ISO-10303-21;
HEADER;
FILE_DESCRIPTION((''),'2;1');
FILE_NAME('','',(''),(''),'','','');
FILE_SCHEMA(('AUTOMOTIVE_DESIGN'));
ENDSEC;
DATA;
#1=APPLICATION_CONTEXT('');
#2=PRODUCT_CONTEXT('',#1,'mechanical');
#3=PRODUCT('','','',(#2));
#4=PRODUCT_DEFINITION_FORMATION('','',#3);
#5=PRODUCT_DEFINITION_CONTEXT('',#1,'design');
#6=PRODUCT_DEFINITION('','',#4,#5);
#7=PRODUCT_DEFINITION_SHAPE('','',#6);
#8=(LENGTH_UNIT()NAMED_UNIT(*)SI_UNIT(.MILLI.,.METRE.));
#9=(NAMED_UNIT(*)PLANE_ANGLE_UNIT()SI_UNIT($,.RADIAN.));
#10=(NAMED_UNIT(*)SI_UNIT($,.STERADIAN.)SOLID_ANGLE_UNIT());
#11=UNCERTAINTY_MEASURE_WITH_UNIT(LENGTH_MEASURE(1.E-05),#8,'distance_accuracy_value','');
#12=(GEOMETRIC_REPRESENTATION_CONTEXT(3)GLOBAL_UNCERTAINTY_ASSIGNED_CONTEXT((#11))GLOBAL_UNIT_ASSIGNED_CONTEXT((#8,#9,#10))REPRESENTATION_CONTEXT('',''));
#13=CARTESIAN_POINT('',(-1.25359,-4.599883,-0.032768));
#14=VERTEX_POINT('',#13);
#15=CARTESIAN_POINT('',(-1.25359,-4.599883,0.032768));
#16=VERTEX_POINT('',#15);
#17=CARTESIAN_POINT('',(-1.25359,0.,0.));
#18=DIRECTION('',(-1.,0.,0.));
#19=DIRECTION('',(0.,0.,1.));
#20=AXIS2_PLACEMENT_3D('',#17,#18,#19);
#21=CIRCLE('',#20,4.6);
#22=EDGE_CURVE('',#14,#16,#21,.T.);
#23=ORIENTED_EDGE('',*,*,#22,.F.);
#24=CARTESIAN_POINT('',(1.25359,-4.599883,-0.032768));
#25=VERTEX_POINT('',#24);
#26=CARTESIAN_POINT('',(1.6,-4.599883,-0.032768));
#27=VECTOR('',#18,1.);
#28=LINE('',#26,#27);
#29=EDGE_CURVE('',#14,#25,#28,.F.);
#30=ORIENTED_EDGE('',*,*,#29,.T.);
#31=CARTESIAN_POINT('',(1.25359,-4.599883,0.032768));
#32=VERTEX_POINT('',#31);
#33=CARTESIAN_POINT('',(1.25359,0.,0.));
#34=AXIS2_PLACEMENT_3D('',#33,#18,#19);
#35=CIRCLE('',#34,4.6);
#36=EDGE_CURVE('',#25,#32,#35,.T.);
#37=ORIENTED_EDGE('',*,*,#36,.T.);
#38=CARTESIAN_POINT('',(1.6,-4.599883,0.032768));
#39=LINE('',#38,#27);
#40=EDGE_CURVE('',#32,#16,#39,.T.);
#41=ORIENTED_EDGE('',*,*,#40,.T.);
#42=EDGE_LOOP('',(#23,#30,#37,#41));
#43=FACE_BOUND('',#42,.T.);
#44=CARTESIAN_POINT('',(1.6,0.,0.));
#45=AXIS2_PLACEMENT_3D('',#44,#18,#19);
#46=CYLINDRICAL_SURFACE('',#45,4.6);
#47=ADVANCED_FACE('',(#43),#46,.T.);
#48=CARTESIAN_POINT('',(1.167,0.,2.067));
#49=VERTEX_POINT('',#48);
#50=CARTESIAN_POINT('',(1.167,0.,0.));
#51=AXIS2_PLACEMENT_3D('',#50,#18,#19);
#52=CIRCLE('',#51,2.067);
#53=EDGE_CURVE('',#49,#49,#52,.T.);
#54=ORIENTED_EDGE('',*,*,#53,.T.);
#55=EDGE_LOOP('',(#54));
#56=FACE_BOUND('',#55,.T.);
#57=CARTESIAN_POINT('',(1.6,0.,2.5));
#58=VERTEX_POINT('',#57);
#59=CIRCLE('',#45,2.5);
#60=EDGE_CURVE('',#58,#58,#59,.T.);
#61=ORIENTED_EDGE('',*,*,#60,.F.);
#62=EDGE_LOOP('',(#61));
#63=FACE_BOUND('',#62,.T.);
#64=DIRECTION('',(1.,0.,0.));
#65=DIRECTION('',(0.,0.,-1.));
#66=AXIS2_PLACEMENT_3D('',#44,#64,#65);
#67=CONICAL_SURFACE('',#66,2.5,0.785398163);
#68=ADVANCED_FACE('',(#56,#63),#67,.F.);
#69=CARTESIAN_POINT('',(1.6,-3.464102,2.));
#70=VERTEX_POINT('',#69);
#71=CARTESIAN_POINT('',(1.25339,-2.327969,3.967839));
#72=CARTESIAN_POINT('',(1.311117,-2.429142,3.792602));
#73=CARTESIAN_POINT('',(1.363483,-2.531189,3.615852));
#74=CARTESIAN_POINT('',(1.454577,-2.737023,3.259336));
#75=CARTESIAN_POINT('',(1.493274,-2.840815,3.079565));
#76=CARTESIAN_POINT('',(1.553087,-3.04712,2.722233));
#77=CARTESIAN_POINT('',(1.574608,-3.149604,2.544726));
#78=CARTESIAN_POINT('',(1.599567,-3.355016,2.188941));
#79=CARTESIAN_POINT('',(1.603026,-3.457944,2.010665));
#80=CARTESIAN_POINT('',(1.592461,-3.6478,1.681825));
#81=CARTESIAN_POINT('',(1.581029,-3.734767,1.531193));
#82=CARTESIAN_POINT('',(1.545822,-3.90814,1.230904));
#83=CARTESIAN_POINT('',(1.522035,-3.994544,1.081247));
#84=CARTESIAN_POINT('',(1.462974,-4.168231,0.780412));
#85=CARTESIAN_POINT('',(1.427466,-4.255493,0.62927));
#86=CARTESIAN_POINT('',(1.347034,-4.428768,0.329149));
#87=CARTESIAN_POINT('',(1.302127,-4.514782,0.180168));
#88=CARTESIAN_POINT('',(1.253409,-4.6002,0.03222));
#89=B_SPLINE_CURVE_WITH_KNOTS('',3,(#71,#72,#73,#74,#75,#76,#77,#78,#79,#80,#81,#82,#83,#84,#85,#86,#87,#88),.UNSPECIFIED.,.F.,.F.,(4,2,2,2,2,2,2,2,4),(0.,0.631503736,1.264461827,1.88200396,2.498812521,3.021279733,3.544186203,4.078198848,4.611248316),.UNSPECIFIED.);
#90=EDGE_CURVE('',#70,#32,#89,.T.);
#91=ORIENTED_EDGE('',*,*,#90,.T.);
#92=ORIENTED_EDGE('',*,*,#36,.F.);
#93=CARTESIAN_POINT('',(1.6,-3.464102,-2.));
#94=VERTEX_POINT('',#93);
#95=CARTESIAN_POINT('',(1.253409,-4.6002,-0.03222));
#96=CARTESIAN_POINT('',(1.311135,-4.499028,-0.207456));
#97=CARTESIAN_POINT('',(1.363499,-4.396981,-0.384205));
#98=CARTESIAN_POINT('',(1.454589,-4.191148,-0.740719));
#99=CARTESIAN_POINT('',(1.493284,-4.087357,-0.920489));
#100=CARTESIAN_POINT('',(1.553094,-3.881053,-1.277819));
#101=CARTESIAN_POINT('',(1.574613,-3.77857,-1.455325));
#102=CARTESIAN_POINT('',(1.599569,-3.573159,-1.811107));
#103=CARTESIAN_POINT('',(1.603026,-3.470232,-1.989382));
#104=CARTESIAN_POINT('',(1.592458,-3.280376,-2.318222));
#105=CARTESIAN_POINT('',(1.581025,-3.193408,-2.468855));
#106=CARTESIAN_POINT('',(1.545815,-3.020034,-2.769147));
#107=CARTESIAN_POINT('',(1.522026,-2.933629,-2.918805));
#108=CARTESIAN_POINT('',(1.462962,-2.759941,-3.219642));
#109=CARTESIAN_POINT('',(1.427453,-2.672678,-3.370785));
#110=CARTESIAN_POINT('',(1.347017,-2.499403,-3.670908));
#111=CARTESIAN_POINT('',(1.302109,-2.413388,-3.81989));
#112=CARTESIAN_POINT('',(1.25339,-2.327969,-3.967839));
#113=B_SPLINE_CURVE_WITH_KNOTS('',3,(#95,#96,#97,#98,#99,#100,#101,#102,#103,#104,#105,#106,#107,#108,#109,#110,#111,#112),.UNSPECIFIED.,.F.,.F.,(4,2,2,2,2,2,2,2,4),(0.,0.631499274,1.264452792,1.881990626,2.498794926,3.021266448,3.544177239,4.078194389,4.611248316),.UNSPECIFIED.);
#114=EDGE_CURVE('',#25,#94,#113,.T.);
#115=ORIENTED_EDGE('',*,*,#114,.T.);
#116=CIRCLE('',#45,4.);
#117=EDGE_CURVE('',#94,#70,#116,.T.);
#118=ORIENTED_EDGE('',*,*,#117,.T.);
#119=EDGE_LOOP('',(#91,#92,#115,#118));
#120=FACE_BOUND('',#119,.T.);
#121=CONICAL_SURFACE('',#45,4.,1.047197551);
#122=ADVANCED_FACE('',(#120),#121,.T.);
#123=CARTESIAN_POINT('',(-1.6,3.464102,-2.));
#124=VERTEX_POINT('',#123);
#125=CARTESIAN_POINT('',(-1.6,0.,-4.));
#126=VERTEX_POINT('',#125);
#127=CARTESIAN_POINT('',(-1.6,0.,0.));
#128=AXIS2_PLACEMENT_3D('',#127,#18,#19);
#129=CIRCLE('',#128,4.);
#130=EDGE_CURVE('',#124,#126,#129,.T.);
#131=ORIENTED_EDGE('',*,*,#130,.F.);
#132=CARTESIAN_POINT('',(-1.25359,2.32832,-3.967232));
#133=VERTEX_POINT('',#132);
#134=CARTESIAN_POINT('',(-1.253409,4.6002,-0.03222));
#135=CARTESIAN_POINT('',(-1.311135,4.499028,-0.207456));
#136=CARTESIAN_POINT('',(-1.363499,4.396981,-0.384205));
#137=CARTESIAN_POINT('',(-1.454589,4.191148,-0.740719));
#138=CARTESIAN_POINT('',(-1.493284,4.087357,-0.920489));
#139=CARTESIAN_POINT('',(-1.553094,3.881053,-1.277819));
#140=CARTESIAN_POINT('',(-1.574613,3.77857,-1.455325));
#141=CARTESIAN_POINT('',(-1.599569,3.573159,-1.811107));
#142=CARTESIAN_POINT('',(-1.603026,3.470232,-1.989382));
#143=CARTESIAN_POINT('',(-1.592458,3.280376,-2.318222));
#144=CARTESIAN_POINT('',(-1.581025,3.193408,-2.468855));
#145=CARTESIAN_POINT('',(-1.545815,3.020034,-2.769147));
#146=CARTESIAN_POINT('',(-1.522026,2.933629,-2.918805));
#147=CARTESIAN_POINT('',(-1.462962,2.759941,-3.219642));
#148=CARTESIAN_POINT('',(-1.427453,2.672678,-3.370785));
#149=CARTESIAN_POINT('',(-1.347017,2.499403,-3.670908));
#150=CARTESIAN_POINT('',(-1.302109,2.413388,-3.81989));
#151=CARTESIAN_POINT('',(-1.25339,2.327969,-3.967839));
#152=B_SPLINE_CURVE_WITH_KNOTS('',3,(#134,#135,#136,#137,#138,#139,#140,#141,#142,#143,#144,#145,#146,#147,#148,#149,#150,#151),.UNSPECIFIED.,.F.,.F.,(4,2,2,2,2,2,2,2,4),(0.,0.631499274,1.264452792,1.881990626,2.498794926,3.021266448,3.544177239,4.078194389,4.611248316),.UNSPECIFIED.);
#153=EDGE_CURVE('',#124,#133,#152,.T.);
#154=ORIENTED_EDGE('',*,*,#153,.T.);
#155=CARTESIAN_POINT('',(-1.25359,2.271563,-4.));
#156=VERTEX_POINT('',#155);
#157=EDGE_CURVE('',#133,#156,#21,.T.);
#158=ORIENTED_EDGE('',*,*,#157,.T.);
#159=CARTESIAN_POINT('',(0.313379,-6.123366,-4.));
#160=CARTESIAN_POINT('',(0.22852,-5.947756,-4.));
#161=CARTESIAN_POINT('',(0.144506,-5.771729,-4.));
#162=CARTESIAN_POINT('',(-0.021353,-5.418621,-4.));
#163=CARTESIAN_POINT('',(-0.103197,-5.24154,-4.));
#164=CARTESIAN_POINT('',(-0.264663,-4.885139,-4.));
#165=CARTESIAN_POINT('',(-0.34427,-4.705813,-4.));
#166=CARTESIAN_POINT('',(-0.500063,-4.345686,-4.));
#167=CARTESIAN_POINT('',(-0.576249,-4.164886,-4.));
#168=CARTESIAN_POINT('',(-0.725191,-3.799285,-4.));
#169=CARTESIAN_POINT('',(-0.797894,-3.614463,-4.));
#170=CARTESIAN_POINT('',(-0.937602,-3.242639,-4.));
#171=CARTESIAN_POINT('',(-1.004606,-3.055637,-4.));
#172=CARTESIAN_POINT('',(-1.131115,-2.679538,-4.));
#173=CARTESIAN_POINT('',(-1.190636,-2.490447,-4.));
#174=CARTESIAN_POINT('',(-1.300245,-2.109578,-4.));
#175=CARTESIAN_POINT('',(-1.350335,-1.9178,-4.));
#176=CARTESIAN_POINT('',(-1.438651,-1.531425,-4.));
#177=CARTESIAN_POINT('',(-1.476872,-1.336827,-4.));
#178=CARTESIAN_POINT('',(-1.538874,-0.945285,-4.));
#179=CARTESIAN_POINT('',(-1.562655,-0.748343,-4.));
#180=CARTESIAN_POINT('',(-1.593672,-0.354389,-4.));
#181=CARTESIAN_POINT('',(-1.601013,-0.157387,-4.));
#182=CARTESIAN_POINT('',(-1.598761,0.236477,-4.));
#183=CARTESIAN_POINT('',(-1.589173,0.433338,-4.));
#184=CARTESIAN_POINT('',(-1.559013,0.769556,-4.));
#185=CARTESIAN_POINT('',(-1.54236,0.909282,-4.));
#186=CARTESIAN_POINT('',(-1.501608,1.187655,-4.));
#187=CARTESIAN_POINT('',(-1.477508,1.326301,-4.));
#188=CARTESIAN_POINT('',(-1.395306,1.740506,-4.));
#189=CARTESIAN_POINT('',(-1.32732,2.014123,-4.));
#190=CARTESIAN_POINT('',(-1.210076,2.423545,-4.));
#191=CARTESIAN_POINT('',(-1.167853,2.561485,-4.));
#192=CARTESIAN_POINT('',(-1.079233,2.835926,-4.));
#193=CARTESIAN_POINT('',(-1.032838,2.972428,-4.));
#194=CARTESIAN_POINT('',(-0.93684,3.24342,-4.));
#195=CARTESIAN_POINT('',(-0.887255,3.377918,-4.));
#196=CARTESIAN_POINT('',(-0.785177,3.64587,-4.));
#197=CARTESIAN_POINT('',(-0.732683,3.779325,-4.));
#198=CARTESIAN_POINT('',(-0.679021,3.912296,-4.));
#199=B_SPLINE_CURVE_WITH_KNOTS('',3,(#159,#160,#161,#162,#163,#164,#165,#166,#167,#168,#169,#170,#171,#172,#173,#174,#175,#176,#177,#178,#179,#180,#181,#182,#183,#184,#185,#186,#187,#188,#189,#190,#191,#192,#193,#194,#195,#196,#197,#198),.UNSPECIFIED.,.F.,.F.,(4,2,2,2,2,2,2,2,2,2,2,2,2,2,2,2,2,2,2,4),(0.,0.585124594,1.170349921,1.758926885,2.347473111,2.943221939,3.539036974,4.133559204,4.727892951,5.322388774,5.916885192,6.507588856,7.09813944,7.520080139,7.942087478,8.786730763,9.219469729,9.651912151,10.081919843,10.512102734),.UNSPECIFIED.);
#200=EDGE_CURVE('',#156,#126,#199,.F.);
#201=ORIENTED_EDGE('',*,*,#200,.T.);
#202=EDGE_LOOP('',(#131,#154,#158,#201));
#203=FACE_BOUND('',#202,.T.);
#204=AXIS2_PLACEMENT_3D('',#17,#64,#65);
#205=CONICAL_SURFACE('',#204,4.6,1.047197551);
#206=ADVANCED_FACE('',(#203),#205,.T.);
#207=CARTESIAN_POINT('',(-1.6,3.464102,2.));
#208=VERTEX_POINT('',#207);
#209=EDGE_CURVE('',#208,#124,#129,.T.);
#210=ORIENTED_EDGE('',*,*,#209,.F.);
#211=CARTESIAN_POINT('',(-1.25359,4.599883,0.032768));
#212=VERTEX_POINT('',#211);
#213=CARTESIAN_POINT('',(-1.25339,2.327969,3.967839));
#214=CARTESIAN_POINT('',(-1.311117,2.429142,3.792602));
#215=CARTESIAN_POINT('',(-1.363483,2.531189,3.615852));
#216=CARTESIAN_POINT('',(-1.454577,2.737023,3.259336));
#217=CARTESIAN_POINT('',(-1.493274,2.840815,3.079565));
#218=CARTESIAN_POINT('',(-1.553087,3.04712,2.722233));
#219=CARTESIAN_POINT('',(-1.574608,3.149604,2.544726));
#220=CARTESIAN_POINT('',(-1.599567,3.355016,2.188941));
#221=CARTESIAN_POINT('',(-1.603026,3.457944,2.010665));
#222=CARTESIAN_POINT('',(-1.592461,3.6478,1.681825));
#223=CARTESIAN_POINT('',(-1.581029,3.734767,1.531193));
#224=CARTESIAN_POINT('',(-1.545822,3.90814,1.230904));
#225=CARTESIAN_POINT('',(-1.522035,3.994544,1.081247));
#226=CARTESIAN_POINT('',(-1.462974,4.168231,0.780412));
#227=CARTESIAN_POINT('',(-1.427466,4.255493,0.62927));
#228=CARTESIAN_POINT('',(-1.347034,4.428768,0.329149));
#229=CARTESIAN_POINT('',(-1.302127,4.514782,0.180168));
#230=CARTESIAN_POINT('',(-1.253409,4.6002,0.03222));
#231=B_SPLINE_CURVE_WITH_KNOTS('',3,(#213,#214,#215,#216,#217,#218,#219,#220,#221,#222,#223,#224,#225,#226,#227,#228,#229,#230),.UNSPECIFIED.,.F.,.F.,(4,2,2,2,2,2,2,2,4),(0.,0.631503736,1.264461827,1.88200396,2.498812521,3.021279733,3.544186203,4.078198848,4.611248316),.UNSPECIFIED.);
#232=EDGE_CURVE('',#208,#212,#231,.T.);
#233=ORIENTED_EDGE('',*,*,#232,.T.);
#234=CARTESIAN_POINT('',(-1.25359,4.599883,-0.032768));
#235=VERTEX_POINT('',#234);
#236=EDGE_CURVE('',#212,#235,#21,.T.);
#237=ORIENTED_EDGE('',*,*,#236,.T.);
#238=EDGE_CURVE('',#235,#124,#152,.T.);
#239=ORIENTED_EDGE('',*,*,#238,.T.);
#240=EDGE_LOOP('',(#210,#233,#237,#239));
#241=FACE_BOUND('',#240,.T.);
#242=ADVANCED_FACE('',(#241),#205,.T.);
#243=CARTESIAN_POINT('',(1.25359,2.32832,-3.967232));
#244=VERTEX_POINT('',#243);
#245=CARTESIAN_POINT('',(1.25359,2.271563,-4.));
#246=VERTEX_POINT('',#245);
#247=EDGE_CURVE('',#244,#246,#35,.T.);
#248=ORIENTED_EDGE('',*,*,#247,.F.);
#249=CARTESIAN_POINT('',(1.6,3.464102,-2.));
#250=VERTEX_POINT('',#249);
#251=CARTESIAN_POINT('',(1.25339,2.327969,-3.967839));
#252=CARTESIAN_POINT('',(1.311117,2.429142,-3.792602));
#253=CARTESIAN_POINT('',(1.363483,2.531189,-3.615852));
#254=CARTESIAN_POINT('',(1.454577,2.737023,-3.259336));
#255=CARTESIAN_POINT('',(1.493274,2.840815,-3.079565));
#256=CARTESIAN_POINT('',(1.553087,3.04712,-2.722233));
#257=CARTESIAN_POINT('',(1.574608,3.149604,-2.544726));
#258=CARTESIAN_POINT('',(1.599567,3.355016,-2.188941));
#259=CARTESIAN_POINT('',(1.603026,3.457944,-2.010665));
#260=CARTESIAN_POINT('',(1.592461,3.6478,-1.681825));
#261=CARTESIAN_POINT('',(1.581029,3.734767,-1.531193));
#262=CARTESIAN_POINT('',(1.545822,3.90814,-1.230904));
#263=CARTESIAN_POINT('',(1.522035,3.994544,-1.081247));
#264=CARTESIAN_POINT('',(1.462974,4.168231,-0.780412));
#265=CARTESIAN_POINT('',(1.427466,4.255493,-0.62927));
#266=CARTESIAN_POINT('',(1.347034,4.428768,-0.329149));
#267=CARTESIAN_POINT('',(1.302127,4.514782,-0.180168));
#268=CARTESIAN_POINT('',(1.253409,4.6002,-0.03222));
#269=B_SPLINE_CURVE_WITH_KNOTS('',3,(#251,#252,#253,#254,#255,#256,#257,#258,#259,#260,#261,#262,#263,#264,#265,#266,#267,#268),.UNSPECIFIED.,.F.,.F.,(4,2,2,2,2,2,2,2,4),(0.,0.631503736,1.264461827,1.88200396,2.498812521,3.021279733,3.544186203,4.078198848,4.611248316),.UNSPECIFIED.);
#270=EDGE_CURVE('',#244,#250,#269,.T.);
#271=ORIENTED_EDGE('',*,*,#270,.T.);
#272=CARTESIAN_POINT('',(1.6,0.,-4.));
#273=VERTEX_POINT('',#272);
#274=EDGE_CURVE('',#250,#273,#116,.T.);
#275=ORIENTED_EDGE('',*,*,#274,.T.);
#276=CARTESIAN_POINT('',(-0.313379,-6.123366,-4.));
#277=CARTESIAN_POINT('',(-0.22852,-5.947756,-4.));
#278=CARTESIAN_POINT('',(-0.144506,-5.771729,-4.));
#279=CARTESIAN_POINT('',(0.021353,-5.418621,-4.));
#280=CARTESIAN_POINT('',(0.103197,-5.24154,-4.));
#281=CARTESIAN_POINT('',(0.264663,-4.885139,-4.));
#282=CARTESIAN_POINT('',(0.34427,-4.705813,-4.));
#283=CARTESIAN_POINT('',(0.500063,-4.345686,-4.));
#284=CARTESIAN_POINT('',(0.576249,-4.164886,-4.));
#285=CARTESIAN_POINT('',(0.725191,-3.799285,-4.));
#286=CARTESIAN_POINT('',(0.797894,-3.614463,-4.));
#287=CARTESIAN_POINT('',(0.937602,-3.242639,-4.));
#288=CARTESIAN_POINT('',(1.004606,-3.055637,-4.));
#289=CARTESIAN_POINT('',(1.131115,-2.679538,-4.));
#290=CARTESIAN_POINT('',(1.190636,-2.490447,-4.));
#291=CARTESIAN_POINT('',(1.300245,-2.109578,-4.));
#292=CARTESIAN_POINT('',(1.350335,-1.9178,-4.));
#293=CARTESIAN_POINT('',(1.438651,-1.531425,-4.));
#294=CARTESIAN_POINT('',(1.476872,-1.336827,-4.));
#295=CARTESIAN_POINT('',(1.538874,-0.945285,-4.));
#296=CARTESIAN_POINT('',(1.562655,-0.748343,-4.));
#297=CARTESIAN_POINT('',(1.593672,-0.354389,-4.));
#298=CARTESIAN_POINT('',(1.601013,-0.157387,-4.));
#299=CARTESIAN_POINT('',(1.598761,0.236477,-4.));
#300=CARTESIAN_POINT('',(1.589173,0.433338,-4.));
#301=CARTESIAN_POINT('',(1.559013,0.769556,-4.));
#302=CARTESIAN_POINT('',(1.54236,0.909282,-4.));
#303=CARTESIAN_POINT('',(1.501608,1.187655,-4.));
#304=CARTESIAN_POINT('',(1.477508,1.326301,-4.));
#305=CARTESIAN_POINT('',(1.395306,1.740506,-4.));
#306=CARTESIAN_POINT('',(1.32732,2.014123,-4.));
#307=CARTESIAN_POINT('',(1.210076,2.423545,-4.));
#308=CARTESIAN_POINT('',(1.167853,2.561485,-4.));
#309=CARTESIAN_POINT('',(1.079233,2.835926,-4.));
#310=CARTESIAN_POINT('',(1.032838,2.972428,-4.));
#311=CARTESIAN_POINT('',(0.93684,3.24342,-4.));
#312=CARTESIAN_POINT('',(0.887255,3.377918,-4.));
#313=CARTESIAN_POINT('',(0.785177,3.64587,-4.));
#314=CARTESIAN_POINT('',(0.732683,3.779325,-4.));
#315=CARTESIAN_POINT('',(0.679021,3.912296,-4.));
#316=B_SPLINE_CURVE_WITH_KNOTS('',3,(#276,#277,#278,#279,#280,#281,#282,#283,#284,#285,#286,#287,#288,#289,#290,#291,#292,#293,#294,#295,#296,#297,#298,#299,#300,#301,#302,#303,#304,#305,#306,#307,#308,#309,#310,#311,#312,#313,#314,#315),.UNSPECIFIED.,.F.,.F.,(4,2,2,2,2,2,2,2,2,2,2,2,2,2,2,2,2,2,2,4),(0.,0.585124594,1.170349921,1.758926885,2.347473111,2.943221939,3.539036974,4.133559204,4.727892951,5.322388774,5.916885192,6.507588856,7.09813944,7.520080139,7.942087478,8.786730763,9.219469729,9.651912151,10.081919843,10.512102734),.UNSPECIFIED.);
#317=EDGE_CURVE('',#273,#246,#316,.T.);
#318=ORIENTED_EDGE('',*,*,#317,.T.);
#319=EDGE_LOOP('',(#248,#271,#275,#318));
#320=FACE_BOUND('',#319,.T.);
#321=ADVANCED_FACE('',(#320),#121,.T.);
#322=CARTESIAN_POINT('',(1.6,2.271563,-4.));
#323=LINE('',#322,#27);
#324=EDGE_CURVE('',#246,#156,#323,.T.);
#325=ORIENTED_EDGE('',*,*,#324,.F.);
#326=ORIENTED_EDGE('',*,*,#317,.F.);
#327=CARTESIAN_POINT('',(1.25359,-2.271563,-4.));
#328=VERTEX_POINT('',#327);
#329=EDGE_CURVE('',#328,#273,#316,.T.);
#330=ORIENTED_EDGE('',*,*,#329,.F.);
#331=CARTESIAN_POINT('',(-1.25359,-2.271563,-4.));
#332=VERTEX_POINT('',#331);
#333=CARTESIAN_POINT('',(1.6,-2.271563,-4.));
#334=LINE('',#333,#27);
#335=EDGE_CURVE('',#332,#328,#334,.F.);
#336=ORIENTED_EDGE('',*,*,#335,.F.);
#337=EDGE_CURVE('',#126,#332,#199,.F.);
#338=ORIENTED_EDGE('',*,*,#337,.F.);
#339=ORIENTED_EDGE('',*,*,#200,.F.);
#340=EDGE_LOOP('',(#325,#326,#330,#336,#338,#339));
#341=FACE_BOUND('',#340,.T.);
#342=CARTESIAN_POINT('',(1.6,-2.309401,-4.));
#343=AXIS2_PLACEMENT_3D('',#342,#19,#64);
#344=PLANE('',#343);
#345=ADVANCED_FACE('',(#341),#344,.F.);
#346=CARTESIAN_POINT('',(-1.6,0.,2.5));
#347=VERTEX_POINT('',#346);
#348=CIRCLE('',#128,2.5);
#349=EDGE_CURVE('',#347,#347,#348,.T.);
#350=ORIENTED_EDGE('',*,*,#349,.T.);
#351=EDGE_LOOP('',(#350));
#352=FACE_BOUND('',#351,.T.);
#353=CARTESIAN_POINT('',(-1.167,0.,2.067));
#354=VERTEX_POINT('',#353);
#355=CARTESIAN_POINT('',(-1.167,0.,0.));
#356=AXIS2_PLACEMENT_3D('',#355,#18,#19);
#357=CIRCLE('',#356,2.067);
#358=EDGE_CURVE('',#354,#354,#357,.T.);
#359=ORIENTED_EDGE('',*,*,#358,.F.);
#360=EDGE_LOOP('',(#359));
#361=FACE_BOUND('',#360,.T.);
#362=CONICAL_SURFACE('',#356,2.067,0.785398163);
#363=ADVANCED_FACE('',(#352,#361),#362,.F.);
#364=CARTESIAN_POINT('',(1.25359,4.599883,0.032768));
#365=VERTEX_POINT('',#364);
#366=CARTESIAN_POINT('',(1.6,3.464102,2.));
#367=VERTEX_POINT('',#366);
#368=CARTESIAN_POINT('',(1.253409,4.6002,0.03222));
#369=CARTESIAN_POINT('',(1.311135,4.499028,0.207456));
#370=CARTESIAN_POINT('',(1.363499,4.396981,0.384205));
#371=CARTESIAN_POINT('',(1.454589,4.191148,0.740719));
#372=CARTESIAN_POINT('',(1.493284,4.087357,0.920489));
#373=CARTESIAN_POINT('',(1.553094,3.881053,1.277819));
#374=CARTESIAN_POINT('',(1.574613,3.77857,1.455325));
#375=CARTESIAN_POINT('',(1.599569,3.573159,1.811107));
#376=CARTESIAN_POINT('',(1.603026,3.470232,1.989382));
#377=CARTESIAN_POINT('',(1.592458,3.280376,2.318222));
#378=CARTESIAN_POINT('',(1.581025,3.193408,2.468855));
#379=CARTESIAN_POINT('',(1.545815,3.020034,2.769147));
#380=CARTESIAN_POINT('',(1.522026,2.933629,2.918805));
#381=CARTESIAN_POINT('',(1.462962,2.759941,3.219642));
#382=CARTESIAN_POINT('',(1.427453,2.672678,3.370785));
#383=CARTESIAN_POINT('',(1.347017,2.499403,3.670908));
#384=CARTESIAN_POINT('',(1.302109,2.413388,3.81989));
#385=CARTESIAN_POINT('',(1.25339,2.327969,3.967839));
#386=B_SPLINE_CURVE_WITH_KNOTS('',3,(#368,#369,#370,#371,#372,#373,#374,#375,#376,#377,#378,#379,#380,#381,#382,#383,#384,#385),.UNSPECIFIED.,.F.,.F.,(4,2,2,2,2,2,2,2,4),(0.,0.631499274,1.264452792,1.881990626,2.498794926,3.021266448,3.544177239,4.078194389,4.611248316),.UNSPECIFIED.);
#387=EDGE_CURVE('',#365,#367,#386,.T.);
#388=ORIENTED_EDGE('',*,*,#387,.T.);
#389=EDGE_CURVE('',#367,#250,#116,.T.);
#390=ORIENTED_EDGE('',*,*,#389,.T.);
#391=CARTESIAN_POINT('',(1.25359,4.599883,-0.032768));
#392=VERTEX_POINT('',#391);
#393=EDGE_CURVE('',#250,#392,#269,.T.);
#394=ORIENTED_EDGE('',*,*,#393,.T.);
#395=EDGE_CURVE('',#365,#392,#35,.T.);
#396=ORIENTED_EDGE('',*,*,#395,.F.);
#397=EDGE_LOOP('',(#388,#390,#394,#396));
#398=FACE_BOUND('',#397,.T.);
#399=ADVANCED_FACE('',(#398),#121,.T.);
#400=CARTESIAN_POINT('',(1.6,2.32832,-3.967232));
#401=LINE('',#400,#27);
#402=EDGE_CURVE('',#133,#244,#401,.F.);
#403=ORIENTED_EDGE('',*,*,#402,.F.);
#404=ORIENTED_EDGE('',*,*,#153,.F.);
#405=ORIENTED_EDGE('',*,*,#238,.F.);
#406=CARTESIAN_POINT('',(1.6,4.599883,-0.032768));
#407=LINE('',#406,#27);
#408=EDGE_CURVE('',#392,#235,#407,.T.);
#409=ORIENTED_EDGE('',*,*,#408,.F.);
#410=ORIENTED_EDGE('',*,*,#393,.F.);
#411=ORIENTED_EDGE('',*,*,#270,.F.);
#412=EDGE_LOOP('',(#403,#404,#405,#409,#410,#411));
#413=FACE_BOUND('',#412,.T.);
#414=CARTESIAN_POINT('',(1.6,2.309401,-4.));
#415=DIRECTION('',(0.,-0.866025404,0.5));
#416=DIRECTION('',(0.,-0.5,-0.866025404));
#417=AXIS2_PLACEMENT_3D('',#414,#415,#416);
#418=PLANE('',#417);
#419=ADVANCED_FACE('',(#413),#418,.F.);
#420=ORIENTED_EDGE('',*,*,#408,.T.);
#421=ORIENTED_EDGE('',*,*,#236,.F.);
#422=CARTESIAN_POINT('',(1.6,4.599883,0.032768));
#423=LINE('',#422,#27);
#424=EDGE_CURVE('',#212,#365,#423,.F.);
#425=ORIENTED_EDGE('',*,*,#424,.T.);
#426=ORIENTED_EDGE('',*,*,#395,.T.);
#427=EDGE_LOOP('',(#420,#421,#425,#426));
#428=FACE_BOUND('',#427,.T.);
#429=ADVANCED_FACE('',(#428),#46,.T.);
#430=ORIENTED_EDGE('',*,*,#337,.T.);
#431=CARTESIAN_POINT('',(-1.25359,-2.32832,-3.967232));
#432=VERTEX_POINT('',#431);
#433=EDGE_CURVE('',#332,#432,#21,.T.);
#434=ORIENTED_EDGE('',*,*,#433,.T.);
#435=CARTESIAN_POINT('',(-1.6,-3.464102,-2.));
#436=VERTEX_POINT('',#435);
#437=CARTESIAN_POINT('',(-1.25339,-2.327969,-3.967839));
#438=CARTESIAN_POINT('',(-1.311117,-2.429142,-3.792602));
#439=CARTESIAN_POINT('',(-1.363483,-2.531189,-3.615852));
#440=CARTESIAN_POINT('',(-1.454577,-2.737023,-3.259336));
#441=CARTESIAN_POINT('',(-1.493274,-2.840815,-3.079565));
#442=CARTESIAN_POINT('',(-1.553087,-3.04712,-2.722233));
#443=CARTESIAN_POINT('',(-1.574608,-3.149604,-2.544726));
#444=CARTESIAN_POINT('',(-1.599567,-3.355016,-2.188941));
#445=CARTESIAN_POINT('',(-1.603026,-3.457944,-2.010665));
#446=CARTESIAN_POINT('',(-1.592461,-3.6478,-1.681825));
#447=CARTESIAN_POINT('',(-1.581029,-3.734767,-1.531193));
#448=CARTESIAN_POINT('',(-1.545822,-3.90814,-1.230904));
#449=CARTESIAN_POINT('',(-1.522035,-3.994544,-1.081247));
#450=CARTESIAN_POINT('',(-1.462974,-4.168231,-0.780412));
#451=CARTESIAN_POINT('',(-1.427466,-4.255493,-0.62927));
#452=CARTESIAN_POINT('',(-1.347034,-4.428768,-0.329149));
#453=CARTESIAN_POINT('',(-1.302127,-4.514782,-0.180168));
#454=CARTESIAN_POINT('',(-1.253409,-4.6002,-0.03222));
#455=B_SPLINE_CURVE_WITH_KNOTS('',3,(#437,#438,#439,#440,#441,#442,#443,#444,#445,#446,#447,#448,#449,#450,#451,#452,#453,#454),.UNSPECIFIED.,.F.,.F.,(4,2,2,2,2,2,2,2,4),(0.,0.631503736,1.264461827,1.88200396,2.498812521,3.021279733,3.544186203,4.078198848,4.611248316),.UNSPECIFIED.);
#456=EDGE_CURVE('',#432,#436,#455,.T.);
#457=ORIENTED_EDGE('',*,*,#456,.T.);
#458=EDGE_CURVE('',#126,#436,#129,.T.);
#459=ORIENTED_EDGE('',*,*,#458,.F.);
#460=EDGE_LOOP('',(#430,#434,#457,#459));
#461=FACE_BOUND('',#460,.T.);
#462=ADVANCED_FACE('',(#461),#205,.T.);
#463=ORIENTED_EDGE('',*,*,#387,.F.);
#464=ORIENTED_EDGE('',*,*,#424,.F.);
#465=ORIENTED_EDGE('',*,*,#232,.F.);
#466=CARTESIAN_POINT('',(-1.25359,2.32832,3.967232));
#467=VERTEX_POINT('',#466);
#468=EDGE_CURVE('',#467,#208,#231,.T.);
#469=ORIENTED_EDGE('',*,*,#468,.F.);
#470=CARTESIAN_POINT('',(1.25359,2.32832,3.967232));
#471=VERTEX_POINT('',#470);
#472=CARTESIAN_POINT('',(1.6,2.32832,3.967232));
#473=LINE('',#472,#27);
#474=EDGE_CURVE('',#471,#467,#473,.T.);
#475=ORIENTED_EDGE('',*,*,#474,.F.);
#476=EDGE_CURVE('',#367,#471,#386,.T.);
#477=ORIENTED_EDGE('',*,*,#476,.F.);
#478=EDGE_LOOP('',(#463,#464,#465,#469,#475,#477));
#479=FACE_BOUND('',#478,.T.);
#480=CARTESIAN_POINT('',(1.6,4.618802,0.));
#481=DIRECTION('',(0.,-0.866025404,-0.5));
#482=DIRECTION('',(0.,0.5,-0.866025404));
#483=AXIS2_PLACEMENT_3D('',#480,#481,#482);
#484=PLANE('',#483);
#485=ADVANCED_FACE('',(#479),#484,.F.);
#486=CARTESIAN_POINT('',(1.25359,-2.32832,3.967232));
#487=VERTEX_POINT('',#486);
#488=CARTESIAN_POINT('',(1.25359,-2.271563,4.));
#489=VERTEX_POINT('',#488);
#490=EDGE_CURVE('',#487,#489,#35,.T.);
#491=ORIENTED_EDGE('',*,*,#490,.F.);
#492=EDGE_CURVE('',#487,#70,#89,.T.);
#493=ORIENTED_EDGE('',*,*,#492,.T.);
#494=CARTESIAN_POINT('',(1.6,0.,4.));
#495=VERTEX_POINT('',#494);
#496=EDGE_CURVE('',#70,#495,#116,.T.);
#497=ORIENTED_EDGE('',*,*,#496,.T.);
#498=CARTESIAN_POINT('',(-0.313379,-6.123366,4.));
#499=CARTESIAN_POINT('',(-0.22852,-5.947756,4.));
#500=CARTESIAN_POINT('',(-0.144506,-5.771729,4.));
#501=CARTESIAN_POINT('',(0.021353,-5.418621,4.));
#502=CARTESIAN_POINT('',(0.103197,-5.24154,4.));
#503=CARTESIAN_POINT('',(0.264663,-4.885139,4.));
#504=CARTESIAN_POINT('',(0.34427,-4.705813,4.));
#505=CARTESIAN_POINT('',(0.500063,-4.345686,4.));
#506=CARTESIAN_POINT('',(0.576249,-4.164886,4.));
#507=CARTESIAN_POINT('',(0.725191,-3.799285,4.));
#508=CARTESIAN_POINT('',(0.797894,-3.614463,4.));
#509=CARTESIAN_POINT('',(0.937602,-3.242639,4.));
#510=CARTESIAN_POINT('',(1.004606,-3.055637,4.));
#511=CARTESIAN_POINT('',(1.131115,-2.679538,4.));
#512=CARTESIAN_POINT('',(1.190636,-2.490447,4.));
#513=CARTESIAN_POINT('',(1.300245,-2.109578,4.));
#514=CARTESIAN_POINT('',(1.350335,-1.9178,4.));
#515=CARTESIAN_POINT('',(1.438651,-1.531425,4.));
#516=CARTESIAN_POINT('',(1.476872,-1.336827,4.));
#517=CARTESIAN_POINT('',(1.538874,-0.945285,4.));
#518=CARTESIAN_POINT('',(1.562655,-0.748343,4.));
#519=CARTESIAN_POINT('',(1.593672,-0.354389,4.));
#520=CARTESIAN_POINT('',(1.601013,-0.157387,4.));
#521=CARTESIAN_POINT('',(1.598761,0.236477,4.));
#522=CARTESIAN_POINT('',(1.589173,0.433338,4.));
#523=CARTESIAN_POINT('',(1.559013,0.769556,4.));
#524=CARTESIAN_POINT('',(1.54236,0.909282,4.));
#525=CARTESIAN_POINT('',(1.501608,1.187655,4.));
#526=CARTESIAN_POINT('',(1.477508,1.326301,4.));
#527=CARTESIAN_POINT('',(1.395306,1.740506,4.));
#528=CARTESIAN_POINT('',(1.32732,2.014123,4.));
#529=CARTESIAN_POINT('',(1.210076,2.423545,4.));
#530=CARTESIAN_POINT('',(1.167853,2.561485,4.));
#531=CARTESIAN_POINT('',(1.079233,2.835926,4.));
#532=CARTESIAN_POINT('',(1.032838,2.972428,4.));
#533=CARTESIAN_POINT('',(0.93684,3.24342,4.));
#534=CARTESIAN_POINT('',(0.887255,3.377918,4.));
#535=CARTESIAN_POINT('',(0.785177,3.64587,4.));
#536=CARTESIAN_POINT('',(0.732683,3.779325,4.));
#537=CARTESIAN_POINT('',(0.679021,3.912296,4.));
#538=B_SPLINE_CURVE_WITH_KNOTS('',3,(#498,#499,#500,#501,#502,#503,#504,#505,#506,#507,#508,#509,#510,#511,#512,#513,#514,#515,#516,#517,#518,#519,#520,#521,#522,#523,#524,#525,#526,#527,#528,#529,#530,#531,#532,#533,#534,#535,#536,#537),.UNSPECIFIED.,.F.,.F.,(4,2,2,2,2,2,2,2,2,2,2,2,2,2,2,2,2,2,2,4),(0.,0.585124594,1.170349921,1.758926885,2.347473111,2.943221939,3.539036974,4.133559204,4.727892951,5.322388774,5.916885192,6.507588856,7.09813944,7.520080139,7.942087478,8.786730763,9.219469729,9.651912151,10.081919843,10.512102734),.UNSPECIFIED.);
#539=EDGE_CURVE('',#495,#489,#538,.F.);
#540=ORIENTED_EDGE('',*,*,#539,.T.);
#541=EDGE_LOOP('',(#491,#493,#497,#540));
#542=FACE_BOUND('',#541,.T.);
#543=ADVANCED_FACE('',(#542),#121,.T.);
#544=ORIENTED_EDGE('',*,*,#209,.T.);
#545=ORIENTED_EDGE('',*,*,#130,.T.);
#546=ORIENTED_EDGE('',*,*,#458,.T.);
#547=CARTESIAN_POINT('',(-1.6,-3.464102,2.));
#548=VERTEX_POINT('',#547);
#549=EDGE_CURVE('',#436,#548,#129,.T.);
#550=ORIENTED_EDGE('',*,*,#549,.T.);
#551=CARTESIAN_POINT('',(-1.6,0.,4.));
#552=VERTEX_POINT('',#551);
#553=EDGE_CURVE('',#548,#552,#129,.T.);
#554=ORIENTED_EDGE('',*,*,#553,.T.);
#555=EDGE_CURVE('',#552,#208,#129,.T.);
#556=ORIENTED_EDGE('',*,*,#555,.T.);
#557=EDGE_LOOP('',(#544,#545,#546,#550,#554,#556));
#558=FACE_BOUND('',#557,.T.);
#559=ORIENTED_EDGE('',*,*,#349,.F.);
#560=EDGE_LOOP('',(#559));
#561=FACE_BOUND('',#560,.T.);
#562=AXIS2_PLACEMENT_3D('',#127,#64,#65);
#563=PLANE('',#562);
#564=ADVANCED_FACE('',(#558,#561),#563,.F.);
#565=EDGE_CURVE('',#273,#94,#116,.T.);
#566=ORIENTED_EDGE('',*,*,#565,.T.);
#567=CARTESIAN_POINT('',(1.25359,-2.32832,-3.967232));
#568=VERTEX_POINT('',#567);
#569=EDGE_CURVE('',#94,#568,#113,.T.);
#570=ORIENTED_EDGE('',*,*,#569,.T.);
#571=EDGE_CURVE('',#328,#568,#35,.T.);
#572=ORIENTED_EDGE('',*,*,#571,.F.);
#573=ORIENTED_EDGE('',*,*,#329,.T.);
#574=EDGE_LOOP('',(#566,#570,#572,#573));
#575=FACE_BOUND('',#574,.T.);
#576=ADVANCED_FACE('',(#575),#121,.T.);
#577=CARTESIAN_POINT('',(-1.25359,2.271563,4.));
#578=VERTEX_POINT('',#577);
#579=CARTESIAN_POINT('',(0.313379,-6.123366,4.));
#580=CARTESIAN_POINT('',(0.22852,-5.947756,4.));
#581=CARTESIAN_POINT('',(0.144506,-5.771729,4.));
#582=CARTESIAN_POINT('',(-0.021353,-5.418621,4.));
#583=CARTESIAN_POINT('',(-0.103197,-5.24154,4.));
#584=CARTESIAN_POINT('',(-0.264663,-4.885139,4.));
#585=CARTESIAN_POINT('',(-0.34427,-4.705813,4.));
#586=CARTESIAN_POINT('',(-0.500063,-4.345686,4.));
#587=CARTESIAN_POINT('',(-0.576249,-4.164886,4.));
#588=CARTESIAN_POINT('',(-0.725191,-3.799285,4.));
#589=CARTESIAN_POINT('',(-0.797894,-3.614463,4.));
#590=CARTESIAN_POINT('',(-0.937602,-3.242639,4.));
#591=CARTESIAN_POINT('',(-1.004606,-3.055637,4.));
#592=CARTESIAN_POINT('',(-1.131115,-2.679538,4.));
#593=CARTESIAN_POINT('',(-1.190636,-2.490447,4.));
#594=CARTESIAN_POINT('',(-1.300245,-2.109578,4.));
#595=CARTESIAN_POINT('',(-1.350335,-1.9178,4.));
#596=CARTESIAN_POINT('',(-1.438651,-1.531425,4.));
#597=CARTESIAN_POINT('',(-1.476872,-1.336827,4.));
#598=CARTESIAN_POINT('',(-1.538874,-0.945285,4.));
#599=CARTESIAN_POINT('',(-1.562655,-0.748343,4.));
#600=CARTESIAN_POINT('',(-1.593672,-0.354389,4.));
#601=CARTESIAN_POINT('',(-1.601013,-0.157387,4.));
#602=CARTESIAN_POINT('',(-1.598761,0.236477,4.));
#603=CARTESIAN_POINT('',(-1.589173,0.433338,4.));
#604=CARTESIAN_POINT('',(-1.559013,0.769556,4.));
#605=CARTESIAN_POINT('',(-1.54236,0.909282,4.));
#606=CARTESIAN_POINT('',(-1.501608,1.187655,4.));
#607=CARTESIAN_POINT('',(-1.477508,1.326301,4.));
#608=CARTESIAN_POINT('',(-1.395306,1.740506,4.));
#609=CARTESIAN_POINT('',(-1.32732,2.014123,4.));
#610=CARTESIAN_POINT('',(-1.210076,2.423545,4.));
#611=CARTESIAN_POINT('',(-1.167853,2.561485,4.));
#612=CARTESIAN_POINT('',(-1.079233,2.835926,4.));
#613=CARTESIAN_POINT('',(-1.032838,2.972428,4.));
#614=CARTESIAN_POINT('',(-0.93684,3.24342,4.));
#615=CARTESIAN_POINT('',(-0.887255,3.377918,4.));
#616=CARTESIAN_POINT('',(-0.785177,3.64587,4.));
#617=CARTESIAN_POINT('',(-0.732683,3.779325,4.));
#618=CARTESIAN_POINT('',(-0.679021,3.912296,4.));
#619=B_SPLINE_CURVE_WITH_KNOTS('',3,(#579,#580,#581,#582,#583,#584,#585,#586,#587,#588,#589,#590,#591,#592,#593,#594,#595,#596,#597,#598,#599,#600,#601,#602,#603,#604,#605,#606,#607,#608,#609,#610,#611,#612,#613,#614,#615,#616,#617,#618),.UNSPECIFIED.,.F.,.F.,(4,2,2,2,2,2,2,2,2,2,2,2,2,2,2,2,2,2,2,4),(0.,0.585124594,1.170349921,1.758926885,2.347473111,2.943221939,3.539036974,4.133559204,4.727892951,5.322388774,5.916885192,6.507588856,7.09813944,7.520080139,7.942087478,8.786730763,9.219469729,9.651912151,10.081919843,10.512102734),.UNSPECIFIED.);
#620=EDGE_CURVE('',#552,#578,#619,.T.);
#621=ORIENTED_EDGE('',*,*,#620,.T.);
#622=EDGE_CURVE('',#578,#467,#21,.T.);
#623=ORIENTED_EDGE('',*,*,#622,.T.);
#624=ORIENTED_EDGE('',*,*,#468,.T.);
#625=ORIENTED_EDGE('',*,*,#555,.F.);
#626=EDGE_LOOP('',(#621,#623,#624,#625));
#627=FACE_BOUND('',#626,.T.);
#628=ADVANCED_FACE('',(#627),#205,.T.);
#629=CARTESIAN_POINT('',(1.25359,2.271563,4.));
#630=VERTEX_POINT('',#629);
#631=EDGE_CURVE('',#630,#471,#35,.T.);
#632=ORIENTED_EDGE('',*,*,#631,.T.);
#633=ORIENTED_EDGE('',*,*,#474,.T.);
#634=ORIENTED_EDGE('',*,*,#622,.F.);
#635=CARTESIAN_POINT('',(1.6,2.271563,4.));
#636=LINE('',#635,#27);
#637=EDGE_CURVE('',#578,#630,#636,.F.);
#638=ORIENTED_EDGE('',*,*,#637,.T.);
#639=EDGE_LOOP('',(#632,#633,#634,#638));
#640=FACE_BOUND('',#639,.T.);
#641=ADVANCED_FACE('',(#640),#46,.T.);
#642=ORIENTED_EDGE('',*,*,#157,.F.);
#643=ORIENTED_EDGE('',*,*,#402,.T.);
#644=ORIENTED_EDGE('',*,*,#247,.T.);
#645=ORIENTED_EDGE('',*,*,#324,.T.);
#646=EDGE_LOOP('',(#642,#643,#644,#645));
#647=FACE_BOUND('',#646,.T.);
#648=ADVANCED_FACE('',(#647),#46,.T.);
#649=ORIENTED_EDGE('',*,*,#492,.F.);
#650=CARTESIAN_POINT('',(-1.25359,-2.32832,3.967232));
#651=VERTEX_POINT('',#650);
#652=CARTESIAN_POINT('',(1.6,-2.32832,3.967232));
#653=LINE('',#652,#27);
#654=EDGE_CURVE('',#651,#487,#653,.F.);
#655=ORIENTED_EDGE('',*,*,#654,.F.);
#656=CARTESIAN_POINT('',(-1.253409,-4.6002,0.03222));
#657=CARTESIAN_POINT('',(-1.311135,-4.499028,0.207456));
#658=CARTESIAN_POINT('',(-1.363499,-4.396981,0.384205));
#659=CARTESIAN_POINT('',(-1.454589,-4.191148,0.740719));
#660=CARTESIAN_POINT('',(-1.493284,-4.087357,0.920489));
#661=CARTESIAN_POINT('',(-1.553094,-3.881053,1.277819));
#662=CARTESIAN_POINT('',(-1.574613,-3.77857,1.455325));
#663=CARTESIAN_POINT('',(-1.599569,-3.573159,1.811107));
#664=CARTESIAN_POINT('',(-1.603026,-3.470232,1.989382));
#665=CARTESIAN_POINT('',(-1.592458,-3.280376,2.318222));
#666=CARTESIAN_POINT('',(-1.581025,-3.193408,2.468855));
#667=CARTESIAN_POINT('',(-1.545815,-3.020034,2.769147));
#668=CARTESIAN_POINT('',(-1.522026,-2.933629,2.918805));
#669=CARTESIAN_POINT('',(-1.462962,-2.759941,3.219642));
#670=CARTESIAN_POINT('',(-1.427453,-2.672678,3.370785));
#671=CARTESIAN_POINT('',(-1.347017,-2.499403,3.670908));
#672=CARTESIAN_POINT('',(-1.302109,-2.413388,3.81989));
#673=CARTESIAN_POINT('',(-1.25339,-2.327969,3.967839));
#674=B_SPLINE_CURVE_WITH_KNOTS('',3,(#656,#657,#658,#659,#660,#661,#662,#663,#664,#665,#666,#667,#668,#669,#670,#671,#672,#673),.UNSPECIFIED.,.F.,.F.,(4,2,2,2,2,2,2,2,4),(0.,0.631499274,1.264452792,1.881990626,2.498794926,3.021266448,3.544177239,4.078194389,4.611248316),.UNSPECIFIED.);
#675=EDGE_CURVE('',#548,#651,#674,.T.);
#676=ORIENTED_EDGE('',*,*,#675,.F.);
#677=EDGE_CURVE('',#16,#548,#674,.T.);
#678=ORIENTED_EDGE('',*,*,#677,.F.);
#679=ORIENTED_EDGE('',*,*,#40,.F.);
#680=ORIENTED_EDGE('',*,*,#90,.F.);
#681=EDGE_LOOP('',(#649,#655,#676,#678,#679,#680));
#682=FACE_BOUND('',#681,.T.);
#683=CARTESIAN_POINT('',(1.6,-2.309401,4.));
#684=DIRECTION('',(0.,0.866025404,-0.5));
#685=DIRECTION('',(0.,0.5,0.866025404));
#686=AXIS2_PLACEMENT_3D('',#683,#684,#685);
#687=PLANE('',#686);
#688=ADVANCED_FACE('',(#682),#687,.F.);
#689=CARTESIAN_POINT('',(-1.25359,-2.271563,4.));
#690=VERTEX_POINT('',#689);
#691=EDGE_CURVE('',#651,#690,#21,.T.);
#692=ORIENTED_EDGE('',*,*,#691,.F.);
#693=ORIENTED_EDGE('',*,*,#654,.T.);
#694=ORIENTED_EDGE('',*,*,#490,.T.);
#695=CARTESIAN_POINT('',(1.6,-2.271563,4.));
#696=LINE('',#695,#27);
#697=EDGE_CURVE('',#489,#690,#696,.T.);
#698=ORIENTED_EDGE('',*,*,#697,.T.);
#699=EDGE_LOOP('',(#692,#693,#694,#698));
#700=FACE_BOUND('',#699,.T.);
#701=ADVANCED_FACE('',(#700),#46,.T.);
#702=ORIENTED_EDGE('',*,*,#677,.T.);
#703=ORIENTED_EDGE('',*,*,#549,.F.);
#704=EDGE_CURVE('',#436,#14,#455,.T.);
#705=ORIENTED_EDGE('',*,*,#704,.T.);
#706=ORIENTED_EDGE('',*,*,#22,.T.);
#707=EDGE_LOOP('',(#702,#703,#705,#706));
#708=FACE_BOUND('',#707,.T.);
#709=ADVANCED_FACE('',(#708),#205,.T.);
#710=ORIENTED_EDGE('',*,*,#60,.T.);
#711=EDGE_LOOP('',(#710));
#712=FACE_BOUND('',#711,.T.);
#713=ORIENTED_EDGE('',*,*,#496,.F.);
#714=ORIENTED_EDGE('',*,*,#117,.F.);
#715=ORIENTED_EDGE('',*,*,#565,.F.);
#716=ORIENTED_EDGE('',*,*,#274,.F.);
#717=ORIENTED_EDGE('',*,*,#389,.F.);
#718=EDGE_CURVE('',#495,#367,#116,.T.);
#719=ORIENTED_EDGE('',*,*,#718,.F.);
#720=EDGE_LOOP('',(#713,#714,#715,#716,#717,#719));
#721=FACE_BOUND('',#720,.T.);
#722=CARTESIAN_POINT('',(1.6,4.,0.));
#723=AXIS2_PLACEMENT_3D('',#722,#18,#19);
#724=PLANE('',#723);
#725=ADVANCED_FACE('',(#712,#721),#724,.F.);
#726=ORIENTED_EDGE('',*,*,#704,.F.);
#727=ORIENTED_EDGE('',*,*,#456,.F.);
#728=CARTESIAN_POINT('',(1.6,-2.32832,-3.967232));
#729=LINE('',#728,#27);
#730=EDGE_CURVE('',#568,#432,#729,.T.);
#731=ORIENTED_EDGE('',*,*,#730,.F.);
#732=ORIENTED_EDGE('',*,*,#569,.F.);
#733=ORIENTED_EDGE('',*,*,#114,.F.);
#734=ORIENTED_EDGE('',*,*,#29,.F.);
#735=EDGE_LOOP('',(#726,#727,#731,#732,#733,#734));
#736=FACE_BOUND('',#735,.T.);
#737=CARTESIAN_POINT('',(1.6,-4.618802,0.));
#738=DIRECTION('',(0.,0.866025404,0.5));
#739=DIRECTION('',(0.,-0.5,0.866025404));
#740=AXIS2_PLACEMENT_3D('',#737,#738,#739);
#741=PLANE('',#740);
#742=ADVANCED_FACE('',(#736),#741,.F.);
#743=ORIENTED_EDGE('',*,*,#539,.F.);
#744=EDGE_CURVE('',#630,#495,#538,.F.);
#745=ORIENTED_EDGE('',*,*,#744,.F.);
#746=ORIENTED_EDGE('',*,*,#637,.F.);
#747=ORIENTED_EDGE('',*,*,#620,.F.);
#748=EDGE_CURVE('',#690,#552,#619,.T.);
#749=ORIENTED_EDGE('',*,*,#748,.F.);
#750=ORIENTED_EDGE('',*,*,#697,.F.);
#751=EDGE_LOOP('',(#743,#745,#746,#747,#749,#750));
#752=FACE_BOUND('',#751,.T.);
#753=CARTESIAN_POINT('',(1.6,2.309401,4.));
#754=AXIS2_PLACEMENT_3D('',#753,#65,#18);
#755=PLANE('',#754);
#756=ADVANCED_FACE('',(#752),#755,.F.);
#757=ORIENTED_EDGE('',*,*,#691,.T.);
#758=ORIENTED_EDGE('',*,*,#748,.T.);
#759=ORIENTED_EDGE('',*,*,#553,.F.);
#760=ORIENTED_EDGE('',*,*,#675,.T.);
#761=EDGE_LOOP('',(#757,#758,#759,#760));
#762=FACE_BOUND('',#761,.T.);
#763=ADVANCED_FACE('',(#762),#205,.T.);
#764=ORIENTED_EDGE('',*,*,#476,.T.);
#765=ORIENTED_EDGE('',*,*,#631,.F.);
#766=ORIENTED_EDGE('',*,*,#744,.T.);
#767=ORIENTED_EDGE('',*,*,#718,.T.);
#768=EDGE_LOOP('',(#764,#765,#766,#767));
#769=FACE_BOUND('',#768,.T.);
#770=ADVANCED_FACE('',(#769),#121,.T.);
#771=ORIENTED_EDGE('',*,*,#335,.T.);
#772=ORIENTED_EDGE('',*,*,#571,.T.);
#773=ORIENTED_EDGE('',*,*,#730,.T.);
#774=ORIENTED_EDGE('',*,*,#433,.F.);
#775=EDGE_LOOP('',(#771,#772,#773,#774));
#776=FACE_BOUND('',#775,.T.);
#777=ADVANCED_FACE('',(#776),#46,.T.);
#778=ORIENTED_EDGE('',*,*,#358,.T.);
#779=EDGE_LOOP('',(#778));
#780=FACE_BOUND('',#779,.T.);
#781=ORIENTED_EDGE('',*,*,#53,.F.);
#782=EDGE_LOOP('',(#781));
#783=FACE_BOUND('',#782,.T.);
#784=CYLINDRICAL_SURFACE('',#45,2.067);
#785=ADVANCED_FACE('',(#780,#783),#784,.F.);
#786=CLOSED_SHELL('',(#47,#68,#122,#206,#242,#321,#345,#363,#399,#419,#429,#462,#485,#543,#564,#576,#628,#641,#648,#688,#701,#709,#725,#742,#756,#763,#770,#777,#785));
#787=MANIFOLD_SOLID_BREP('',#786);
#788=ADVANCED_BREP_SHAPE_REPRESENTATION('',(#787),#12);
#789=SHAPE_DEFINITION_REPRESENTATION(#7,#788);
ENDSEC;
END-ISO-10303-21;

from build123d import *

# Parameters (mm, degrees)
CUT_EXTRUDE1_DEPTH      = 1.6
CUT_EXTRUDE1_DEPTH_BACK = 1.6
SKETCH3_W               = 16
SKETCH3_H               = 16


with BuildPart() as part:
    # Sketch1 → Revolve1 (revolve)
    with BuildSketch(Plane.XY):
        Polygon((-1.6, 0), (-1.6, 4), (-1.253589838, 4.6), (1.253589838, 4.6), (1.6, 4), (1.6, 0), align=None)
    revolve(axis=Axis((1.6, 0, 0), (-1, 0, 0)))

    # Sketch2 → Cut-Revolve1 (revolve, cut)
    with BuildSketch(Plane.XY):
        Polygon((-1.6, 0), (-1.6, 2.5), (-1.167, 2.067), (1.167, 2.067), (1.6, 2.5), (1.6, 0), align=None)
    revolve(axis=Axis((1.6, 0, 0), (-1, 0, 0)), mode=Mode.SUBTRACT)

    # Sketch3 → Cut-Extrude1 (cut, two sides: drawn at the far end of the back side and taken through both)
    with BuildSketch(Plane(origin=(0, 0, 0), x_dir=(0, 0, -1), z_dir=(1, 0, 0)).offset(-CUT_EXTRUDE1_DEPTH_BACK)):
        Rectangle(SKETCH3_W, SKETCH3_H)
        Polygon((-4, 2.309401077), (-4, -2.309401077), (0, -4.618802154), (4, -2.309401077), (4, 2.309401077), (0, 4.618802154), align=None, mode=Mode.SUBTRACT)
    extrude(amount=CUT_EXTRUDE1_DEPTH + CUT_EXTRUDE1_DEPTH_BACK, mode=Mode.SUBTRACT)


solid = part.part
